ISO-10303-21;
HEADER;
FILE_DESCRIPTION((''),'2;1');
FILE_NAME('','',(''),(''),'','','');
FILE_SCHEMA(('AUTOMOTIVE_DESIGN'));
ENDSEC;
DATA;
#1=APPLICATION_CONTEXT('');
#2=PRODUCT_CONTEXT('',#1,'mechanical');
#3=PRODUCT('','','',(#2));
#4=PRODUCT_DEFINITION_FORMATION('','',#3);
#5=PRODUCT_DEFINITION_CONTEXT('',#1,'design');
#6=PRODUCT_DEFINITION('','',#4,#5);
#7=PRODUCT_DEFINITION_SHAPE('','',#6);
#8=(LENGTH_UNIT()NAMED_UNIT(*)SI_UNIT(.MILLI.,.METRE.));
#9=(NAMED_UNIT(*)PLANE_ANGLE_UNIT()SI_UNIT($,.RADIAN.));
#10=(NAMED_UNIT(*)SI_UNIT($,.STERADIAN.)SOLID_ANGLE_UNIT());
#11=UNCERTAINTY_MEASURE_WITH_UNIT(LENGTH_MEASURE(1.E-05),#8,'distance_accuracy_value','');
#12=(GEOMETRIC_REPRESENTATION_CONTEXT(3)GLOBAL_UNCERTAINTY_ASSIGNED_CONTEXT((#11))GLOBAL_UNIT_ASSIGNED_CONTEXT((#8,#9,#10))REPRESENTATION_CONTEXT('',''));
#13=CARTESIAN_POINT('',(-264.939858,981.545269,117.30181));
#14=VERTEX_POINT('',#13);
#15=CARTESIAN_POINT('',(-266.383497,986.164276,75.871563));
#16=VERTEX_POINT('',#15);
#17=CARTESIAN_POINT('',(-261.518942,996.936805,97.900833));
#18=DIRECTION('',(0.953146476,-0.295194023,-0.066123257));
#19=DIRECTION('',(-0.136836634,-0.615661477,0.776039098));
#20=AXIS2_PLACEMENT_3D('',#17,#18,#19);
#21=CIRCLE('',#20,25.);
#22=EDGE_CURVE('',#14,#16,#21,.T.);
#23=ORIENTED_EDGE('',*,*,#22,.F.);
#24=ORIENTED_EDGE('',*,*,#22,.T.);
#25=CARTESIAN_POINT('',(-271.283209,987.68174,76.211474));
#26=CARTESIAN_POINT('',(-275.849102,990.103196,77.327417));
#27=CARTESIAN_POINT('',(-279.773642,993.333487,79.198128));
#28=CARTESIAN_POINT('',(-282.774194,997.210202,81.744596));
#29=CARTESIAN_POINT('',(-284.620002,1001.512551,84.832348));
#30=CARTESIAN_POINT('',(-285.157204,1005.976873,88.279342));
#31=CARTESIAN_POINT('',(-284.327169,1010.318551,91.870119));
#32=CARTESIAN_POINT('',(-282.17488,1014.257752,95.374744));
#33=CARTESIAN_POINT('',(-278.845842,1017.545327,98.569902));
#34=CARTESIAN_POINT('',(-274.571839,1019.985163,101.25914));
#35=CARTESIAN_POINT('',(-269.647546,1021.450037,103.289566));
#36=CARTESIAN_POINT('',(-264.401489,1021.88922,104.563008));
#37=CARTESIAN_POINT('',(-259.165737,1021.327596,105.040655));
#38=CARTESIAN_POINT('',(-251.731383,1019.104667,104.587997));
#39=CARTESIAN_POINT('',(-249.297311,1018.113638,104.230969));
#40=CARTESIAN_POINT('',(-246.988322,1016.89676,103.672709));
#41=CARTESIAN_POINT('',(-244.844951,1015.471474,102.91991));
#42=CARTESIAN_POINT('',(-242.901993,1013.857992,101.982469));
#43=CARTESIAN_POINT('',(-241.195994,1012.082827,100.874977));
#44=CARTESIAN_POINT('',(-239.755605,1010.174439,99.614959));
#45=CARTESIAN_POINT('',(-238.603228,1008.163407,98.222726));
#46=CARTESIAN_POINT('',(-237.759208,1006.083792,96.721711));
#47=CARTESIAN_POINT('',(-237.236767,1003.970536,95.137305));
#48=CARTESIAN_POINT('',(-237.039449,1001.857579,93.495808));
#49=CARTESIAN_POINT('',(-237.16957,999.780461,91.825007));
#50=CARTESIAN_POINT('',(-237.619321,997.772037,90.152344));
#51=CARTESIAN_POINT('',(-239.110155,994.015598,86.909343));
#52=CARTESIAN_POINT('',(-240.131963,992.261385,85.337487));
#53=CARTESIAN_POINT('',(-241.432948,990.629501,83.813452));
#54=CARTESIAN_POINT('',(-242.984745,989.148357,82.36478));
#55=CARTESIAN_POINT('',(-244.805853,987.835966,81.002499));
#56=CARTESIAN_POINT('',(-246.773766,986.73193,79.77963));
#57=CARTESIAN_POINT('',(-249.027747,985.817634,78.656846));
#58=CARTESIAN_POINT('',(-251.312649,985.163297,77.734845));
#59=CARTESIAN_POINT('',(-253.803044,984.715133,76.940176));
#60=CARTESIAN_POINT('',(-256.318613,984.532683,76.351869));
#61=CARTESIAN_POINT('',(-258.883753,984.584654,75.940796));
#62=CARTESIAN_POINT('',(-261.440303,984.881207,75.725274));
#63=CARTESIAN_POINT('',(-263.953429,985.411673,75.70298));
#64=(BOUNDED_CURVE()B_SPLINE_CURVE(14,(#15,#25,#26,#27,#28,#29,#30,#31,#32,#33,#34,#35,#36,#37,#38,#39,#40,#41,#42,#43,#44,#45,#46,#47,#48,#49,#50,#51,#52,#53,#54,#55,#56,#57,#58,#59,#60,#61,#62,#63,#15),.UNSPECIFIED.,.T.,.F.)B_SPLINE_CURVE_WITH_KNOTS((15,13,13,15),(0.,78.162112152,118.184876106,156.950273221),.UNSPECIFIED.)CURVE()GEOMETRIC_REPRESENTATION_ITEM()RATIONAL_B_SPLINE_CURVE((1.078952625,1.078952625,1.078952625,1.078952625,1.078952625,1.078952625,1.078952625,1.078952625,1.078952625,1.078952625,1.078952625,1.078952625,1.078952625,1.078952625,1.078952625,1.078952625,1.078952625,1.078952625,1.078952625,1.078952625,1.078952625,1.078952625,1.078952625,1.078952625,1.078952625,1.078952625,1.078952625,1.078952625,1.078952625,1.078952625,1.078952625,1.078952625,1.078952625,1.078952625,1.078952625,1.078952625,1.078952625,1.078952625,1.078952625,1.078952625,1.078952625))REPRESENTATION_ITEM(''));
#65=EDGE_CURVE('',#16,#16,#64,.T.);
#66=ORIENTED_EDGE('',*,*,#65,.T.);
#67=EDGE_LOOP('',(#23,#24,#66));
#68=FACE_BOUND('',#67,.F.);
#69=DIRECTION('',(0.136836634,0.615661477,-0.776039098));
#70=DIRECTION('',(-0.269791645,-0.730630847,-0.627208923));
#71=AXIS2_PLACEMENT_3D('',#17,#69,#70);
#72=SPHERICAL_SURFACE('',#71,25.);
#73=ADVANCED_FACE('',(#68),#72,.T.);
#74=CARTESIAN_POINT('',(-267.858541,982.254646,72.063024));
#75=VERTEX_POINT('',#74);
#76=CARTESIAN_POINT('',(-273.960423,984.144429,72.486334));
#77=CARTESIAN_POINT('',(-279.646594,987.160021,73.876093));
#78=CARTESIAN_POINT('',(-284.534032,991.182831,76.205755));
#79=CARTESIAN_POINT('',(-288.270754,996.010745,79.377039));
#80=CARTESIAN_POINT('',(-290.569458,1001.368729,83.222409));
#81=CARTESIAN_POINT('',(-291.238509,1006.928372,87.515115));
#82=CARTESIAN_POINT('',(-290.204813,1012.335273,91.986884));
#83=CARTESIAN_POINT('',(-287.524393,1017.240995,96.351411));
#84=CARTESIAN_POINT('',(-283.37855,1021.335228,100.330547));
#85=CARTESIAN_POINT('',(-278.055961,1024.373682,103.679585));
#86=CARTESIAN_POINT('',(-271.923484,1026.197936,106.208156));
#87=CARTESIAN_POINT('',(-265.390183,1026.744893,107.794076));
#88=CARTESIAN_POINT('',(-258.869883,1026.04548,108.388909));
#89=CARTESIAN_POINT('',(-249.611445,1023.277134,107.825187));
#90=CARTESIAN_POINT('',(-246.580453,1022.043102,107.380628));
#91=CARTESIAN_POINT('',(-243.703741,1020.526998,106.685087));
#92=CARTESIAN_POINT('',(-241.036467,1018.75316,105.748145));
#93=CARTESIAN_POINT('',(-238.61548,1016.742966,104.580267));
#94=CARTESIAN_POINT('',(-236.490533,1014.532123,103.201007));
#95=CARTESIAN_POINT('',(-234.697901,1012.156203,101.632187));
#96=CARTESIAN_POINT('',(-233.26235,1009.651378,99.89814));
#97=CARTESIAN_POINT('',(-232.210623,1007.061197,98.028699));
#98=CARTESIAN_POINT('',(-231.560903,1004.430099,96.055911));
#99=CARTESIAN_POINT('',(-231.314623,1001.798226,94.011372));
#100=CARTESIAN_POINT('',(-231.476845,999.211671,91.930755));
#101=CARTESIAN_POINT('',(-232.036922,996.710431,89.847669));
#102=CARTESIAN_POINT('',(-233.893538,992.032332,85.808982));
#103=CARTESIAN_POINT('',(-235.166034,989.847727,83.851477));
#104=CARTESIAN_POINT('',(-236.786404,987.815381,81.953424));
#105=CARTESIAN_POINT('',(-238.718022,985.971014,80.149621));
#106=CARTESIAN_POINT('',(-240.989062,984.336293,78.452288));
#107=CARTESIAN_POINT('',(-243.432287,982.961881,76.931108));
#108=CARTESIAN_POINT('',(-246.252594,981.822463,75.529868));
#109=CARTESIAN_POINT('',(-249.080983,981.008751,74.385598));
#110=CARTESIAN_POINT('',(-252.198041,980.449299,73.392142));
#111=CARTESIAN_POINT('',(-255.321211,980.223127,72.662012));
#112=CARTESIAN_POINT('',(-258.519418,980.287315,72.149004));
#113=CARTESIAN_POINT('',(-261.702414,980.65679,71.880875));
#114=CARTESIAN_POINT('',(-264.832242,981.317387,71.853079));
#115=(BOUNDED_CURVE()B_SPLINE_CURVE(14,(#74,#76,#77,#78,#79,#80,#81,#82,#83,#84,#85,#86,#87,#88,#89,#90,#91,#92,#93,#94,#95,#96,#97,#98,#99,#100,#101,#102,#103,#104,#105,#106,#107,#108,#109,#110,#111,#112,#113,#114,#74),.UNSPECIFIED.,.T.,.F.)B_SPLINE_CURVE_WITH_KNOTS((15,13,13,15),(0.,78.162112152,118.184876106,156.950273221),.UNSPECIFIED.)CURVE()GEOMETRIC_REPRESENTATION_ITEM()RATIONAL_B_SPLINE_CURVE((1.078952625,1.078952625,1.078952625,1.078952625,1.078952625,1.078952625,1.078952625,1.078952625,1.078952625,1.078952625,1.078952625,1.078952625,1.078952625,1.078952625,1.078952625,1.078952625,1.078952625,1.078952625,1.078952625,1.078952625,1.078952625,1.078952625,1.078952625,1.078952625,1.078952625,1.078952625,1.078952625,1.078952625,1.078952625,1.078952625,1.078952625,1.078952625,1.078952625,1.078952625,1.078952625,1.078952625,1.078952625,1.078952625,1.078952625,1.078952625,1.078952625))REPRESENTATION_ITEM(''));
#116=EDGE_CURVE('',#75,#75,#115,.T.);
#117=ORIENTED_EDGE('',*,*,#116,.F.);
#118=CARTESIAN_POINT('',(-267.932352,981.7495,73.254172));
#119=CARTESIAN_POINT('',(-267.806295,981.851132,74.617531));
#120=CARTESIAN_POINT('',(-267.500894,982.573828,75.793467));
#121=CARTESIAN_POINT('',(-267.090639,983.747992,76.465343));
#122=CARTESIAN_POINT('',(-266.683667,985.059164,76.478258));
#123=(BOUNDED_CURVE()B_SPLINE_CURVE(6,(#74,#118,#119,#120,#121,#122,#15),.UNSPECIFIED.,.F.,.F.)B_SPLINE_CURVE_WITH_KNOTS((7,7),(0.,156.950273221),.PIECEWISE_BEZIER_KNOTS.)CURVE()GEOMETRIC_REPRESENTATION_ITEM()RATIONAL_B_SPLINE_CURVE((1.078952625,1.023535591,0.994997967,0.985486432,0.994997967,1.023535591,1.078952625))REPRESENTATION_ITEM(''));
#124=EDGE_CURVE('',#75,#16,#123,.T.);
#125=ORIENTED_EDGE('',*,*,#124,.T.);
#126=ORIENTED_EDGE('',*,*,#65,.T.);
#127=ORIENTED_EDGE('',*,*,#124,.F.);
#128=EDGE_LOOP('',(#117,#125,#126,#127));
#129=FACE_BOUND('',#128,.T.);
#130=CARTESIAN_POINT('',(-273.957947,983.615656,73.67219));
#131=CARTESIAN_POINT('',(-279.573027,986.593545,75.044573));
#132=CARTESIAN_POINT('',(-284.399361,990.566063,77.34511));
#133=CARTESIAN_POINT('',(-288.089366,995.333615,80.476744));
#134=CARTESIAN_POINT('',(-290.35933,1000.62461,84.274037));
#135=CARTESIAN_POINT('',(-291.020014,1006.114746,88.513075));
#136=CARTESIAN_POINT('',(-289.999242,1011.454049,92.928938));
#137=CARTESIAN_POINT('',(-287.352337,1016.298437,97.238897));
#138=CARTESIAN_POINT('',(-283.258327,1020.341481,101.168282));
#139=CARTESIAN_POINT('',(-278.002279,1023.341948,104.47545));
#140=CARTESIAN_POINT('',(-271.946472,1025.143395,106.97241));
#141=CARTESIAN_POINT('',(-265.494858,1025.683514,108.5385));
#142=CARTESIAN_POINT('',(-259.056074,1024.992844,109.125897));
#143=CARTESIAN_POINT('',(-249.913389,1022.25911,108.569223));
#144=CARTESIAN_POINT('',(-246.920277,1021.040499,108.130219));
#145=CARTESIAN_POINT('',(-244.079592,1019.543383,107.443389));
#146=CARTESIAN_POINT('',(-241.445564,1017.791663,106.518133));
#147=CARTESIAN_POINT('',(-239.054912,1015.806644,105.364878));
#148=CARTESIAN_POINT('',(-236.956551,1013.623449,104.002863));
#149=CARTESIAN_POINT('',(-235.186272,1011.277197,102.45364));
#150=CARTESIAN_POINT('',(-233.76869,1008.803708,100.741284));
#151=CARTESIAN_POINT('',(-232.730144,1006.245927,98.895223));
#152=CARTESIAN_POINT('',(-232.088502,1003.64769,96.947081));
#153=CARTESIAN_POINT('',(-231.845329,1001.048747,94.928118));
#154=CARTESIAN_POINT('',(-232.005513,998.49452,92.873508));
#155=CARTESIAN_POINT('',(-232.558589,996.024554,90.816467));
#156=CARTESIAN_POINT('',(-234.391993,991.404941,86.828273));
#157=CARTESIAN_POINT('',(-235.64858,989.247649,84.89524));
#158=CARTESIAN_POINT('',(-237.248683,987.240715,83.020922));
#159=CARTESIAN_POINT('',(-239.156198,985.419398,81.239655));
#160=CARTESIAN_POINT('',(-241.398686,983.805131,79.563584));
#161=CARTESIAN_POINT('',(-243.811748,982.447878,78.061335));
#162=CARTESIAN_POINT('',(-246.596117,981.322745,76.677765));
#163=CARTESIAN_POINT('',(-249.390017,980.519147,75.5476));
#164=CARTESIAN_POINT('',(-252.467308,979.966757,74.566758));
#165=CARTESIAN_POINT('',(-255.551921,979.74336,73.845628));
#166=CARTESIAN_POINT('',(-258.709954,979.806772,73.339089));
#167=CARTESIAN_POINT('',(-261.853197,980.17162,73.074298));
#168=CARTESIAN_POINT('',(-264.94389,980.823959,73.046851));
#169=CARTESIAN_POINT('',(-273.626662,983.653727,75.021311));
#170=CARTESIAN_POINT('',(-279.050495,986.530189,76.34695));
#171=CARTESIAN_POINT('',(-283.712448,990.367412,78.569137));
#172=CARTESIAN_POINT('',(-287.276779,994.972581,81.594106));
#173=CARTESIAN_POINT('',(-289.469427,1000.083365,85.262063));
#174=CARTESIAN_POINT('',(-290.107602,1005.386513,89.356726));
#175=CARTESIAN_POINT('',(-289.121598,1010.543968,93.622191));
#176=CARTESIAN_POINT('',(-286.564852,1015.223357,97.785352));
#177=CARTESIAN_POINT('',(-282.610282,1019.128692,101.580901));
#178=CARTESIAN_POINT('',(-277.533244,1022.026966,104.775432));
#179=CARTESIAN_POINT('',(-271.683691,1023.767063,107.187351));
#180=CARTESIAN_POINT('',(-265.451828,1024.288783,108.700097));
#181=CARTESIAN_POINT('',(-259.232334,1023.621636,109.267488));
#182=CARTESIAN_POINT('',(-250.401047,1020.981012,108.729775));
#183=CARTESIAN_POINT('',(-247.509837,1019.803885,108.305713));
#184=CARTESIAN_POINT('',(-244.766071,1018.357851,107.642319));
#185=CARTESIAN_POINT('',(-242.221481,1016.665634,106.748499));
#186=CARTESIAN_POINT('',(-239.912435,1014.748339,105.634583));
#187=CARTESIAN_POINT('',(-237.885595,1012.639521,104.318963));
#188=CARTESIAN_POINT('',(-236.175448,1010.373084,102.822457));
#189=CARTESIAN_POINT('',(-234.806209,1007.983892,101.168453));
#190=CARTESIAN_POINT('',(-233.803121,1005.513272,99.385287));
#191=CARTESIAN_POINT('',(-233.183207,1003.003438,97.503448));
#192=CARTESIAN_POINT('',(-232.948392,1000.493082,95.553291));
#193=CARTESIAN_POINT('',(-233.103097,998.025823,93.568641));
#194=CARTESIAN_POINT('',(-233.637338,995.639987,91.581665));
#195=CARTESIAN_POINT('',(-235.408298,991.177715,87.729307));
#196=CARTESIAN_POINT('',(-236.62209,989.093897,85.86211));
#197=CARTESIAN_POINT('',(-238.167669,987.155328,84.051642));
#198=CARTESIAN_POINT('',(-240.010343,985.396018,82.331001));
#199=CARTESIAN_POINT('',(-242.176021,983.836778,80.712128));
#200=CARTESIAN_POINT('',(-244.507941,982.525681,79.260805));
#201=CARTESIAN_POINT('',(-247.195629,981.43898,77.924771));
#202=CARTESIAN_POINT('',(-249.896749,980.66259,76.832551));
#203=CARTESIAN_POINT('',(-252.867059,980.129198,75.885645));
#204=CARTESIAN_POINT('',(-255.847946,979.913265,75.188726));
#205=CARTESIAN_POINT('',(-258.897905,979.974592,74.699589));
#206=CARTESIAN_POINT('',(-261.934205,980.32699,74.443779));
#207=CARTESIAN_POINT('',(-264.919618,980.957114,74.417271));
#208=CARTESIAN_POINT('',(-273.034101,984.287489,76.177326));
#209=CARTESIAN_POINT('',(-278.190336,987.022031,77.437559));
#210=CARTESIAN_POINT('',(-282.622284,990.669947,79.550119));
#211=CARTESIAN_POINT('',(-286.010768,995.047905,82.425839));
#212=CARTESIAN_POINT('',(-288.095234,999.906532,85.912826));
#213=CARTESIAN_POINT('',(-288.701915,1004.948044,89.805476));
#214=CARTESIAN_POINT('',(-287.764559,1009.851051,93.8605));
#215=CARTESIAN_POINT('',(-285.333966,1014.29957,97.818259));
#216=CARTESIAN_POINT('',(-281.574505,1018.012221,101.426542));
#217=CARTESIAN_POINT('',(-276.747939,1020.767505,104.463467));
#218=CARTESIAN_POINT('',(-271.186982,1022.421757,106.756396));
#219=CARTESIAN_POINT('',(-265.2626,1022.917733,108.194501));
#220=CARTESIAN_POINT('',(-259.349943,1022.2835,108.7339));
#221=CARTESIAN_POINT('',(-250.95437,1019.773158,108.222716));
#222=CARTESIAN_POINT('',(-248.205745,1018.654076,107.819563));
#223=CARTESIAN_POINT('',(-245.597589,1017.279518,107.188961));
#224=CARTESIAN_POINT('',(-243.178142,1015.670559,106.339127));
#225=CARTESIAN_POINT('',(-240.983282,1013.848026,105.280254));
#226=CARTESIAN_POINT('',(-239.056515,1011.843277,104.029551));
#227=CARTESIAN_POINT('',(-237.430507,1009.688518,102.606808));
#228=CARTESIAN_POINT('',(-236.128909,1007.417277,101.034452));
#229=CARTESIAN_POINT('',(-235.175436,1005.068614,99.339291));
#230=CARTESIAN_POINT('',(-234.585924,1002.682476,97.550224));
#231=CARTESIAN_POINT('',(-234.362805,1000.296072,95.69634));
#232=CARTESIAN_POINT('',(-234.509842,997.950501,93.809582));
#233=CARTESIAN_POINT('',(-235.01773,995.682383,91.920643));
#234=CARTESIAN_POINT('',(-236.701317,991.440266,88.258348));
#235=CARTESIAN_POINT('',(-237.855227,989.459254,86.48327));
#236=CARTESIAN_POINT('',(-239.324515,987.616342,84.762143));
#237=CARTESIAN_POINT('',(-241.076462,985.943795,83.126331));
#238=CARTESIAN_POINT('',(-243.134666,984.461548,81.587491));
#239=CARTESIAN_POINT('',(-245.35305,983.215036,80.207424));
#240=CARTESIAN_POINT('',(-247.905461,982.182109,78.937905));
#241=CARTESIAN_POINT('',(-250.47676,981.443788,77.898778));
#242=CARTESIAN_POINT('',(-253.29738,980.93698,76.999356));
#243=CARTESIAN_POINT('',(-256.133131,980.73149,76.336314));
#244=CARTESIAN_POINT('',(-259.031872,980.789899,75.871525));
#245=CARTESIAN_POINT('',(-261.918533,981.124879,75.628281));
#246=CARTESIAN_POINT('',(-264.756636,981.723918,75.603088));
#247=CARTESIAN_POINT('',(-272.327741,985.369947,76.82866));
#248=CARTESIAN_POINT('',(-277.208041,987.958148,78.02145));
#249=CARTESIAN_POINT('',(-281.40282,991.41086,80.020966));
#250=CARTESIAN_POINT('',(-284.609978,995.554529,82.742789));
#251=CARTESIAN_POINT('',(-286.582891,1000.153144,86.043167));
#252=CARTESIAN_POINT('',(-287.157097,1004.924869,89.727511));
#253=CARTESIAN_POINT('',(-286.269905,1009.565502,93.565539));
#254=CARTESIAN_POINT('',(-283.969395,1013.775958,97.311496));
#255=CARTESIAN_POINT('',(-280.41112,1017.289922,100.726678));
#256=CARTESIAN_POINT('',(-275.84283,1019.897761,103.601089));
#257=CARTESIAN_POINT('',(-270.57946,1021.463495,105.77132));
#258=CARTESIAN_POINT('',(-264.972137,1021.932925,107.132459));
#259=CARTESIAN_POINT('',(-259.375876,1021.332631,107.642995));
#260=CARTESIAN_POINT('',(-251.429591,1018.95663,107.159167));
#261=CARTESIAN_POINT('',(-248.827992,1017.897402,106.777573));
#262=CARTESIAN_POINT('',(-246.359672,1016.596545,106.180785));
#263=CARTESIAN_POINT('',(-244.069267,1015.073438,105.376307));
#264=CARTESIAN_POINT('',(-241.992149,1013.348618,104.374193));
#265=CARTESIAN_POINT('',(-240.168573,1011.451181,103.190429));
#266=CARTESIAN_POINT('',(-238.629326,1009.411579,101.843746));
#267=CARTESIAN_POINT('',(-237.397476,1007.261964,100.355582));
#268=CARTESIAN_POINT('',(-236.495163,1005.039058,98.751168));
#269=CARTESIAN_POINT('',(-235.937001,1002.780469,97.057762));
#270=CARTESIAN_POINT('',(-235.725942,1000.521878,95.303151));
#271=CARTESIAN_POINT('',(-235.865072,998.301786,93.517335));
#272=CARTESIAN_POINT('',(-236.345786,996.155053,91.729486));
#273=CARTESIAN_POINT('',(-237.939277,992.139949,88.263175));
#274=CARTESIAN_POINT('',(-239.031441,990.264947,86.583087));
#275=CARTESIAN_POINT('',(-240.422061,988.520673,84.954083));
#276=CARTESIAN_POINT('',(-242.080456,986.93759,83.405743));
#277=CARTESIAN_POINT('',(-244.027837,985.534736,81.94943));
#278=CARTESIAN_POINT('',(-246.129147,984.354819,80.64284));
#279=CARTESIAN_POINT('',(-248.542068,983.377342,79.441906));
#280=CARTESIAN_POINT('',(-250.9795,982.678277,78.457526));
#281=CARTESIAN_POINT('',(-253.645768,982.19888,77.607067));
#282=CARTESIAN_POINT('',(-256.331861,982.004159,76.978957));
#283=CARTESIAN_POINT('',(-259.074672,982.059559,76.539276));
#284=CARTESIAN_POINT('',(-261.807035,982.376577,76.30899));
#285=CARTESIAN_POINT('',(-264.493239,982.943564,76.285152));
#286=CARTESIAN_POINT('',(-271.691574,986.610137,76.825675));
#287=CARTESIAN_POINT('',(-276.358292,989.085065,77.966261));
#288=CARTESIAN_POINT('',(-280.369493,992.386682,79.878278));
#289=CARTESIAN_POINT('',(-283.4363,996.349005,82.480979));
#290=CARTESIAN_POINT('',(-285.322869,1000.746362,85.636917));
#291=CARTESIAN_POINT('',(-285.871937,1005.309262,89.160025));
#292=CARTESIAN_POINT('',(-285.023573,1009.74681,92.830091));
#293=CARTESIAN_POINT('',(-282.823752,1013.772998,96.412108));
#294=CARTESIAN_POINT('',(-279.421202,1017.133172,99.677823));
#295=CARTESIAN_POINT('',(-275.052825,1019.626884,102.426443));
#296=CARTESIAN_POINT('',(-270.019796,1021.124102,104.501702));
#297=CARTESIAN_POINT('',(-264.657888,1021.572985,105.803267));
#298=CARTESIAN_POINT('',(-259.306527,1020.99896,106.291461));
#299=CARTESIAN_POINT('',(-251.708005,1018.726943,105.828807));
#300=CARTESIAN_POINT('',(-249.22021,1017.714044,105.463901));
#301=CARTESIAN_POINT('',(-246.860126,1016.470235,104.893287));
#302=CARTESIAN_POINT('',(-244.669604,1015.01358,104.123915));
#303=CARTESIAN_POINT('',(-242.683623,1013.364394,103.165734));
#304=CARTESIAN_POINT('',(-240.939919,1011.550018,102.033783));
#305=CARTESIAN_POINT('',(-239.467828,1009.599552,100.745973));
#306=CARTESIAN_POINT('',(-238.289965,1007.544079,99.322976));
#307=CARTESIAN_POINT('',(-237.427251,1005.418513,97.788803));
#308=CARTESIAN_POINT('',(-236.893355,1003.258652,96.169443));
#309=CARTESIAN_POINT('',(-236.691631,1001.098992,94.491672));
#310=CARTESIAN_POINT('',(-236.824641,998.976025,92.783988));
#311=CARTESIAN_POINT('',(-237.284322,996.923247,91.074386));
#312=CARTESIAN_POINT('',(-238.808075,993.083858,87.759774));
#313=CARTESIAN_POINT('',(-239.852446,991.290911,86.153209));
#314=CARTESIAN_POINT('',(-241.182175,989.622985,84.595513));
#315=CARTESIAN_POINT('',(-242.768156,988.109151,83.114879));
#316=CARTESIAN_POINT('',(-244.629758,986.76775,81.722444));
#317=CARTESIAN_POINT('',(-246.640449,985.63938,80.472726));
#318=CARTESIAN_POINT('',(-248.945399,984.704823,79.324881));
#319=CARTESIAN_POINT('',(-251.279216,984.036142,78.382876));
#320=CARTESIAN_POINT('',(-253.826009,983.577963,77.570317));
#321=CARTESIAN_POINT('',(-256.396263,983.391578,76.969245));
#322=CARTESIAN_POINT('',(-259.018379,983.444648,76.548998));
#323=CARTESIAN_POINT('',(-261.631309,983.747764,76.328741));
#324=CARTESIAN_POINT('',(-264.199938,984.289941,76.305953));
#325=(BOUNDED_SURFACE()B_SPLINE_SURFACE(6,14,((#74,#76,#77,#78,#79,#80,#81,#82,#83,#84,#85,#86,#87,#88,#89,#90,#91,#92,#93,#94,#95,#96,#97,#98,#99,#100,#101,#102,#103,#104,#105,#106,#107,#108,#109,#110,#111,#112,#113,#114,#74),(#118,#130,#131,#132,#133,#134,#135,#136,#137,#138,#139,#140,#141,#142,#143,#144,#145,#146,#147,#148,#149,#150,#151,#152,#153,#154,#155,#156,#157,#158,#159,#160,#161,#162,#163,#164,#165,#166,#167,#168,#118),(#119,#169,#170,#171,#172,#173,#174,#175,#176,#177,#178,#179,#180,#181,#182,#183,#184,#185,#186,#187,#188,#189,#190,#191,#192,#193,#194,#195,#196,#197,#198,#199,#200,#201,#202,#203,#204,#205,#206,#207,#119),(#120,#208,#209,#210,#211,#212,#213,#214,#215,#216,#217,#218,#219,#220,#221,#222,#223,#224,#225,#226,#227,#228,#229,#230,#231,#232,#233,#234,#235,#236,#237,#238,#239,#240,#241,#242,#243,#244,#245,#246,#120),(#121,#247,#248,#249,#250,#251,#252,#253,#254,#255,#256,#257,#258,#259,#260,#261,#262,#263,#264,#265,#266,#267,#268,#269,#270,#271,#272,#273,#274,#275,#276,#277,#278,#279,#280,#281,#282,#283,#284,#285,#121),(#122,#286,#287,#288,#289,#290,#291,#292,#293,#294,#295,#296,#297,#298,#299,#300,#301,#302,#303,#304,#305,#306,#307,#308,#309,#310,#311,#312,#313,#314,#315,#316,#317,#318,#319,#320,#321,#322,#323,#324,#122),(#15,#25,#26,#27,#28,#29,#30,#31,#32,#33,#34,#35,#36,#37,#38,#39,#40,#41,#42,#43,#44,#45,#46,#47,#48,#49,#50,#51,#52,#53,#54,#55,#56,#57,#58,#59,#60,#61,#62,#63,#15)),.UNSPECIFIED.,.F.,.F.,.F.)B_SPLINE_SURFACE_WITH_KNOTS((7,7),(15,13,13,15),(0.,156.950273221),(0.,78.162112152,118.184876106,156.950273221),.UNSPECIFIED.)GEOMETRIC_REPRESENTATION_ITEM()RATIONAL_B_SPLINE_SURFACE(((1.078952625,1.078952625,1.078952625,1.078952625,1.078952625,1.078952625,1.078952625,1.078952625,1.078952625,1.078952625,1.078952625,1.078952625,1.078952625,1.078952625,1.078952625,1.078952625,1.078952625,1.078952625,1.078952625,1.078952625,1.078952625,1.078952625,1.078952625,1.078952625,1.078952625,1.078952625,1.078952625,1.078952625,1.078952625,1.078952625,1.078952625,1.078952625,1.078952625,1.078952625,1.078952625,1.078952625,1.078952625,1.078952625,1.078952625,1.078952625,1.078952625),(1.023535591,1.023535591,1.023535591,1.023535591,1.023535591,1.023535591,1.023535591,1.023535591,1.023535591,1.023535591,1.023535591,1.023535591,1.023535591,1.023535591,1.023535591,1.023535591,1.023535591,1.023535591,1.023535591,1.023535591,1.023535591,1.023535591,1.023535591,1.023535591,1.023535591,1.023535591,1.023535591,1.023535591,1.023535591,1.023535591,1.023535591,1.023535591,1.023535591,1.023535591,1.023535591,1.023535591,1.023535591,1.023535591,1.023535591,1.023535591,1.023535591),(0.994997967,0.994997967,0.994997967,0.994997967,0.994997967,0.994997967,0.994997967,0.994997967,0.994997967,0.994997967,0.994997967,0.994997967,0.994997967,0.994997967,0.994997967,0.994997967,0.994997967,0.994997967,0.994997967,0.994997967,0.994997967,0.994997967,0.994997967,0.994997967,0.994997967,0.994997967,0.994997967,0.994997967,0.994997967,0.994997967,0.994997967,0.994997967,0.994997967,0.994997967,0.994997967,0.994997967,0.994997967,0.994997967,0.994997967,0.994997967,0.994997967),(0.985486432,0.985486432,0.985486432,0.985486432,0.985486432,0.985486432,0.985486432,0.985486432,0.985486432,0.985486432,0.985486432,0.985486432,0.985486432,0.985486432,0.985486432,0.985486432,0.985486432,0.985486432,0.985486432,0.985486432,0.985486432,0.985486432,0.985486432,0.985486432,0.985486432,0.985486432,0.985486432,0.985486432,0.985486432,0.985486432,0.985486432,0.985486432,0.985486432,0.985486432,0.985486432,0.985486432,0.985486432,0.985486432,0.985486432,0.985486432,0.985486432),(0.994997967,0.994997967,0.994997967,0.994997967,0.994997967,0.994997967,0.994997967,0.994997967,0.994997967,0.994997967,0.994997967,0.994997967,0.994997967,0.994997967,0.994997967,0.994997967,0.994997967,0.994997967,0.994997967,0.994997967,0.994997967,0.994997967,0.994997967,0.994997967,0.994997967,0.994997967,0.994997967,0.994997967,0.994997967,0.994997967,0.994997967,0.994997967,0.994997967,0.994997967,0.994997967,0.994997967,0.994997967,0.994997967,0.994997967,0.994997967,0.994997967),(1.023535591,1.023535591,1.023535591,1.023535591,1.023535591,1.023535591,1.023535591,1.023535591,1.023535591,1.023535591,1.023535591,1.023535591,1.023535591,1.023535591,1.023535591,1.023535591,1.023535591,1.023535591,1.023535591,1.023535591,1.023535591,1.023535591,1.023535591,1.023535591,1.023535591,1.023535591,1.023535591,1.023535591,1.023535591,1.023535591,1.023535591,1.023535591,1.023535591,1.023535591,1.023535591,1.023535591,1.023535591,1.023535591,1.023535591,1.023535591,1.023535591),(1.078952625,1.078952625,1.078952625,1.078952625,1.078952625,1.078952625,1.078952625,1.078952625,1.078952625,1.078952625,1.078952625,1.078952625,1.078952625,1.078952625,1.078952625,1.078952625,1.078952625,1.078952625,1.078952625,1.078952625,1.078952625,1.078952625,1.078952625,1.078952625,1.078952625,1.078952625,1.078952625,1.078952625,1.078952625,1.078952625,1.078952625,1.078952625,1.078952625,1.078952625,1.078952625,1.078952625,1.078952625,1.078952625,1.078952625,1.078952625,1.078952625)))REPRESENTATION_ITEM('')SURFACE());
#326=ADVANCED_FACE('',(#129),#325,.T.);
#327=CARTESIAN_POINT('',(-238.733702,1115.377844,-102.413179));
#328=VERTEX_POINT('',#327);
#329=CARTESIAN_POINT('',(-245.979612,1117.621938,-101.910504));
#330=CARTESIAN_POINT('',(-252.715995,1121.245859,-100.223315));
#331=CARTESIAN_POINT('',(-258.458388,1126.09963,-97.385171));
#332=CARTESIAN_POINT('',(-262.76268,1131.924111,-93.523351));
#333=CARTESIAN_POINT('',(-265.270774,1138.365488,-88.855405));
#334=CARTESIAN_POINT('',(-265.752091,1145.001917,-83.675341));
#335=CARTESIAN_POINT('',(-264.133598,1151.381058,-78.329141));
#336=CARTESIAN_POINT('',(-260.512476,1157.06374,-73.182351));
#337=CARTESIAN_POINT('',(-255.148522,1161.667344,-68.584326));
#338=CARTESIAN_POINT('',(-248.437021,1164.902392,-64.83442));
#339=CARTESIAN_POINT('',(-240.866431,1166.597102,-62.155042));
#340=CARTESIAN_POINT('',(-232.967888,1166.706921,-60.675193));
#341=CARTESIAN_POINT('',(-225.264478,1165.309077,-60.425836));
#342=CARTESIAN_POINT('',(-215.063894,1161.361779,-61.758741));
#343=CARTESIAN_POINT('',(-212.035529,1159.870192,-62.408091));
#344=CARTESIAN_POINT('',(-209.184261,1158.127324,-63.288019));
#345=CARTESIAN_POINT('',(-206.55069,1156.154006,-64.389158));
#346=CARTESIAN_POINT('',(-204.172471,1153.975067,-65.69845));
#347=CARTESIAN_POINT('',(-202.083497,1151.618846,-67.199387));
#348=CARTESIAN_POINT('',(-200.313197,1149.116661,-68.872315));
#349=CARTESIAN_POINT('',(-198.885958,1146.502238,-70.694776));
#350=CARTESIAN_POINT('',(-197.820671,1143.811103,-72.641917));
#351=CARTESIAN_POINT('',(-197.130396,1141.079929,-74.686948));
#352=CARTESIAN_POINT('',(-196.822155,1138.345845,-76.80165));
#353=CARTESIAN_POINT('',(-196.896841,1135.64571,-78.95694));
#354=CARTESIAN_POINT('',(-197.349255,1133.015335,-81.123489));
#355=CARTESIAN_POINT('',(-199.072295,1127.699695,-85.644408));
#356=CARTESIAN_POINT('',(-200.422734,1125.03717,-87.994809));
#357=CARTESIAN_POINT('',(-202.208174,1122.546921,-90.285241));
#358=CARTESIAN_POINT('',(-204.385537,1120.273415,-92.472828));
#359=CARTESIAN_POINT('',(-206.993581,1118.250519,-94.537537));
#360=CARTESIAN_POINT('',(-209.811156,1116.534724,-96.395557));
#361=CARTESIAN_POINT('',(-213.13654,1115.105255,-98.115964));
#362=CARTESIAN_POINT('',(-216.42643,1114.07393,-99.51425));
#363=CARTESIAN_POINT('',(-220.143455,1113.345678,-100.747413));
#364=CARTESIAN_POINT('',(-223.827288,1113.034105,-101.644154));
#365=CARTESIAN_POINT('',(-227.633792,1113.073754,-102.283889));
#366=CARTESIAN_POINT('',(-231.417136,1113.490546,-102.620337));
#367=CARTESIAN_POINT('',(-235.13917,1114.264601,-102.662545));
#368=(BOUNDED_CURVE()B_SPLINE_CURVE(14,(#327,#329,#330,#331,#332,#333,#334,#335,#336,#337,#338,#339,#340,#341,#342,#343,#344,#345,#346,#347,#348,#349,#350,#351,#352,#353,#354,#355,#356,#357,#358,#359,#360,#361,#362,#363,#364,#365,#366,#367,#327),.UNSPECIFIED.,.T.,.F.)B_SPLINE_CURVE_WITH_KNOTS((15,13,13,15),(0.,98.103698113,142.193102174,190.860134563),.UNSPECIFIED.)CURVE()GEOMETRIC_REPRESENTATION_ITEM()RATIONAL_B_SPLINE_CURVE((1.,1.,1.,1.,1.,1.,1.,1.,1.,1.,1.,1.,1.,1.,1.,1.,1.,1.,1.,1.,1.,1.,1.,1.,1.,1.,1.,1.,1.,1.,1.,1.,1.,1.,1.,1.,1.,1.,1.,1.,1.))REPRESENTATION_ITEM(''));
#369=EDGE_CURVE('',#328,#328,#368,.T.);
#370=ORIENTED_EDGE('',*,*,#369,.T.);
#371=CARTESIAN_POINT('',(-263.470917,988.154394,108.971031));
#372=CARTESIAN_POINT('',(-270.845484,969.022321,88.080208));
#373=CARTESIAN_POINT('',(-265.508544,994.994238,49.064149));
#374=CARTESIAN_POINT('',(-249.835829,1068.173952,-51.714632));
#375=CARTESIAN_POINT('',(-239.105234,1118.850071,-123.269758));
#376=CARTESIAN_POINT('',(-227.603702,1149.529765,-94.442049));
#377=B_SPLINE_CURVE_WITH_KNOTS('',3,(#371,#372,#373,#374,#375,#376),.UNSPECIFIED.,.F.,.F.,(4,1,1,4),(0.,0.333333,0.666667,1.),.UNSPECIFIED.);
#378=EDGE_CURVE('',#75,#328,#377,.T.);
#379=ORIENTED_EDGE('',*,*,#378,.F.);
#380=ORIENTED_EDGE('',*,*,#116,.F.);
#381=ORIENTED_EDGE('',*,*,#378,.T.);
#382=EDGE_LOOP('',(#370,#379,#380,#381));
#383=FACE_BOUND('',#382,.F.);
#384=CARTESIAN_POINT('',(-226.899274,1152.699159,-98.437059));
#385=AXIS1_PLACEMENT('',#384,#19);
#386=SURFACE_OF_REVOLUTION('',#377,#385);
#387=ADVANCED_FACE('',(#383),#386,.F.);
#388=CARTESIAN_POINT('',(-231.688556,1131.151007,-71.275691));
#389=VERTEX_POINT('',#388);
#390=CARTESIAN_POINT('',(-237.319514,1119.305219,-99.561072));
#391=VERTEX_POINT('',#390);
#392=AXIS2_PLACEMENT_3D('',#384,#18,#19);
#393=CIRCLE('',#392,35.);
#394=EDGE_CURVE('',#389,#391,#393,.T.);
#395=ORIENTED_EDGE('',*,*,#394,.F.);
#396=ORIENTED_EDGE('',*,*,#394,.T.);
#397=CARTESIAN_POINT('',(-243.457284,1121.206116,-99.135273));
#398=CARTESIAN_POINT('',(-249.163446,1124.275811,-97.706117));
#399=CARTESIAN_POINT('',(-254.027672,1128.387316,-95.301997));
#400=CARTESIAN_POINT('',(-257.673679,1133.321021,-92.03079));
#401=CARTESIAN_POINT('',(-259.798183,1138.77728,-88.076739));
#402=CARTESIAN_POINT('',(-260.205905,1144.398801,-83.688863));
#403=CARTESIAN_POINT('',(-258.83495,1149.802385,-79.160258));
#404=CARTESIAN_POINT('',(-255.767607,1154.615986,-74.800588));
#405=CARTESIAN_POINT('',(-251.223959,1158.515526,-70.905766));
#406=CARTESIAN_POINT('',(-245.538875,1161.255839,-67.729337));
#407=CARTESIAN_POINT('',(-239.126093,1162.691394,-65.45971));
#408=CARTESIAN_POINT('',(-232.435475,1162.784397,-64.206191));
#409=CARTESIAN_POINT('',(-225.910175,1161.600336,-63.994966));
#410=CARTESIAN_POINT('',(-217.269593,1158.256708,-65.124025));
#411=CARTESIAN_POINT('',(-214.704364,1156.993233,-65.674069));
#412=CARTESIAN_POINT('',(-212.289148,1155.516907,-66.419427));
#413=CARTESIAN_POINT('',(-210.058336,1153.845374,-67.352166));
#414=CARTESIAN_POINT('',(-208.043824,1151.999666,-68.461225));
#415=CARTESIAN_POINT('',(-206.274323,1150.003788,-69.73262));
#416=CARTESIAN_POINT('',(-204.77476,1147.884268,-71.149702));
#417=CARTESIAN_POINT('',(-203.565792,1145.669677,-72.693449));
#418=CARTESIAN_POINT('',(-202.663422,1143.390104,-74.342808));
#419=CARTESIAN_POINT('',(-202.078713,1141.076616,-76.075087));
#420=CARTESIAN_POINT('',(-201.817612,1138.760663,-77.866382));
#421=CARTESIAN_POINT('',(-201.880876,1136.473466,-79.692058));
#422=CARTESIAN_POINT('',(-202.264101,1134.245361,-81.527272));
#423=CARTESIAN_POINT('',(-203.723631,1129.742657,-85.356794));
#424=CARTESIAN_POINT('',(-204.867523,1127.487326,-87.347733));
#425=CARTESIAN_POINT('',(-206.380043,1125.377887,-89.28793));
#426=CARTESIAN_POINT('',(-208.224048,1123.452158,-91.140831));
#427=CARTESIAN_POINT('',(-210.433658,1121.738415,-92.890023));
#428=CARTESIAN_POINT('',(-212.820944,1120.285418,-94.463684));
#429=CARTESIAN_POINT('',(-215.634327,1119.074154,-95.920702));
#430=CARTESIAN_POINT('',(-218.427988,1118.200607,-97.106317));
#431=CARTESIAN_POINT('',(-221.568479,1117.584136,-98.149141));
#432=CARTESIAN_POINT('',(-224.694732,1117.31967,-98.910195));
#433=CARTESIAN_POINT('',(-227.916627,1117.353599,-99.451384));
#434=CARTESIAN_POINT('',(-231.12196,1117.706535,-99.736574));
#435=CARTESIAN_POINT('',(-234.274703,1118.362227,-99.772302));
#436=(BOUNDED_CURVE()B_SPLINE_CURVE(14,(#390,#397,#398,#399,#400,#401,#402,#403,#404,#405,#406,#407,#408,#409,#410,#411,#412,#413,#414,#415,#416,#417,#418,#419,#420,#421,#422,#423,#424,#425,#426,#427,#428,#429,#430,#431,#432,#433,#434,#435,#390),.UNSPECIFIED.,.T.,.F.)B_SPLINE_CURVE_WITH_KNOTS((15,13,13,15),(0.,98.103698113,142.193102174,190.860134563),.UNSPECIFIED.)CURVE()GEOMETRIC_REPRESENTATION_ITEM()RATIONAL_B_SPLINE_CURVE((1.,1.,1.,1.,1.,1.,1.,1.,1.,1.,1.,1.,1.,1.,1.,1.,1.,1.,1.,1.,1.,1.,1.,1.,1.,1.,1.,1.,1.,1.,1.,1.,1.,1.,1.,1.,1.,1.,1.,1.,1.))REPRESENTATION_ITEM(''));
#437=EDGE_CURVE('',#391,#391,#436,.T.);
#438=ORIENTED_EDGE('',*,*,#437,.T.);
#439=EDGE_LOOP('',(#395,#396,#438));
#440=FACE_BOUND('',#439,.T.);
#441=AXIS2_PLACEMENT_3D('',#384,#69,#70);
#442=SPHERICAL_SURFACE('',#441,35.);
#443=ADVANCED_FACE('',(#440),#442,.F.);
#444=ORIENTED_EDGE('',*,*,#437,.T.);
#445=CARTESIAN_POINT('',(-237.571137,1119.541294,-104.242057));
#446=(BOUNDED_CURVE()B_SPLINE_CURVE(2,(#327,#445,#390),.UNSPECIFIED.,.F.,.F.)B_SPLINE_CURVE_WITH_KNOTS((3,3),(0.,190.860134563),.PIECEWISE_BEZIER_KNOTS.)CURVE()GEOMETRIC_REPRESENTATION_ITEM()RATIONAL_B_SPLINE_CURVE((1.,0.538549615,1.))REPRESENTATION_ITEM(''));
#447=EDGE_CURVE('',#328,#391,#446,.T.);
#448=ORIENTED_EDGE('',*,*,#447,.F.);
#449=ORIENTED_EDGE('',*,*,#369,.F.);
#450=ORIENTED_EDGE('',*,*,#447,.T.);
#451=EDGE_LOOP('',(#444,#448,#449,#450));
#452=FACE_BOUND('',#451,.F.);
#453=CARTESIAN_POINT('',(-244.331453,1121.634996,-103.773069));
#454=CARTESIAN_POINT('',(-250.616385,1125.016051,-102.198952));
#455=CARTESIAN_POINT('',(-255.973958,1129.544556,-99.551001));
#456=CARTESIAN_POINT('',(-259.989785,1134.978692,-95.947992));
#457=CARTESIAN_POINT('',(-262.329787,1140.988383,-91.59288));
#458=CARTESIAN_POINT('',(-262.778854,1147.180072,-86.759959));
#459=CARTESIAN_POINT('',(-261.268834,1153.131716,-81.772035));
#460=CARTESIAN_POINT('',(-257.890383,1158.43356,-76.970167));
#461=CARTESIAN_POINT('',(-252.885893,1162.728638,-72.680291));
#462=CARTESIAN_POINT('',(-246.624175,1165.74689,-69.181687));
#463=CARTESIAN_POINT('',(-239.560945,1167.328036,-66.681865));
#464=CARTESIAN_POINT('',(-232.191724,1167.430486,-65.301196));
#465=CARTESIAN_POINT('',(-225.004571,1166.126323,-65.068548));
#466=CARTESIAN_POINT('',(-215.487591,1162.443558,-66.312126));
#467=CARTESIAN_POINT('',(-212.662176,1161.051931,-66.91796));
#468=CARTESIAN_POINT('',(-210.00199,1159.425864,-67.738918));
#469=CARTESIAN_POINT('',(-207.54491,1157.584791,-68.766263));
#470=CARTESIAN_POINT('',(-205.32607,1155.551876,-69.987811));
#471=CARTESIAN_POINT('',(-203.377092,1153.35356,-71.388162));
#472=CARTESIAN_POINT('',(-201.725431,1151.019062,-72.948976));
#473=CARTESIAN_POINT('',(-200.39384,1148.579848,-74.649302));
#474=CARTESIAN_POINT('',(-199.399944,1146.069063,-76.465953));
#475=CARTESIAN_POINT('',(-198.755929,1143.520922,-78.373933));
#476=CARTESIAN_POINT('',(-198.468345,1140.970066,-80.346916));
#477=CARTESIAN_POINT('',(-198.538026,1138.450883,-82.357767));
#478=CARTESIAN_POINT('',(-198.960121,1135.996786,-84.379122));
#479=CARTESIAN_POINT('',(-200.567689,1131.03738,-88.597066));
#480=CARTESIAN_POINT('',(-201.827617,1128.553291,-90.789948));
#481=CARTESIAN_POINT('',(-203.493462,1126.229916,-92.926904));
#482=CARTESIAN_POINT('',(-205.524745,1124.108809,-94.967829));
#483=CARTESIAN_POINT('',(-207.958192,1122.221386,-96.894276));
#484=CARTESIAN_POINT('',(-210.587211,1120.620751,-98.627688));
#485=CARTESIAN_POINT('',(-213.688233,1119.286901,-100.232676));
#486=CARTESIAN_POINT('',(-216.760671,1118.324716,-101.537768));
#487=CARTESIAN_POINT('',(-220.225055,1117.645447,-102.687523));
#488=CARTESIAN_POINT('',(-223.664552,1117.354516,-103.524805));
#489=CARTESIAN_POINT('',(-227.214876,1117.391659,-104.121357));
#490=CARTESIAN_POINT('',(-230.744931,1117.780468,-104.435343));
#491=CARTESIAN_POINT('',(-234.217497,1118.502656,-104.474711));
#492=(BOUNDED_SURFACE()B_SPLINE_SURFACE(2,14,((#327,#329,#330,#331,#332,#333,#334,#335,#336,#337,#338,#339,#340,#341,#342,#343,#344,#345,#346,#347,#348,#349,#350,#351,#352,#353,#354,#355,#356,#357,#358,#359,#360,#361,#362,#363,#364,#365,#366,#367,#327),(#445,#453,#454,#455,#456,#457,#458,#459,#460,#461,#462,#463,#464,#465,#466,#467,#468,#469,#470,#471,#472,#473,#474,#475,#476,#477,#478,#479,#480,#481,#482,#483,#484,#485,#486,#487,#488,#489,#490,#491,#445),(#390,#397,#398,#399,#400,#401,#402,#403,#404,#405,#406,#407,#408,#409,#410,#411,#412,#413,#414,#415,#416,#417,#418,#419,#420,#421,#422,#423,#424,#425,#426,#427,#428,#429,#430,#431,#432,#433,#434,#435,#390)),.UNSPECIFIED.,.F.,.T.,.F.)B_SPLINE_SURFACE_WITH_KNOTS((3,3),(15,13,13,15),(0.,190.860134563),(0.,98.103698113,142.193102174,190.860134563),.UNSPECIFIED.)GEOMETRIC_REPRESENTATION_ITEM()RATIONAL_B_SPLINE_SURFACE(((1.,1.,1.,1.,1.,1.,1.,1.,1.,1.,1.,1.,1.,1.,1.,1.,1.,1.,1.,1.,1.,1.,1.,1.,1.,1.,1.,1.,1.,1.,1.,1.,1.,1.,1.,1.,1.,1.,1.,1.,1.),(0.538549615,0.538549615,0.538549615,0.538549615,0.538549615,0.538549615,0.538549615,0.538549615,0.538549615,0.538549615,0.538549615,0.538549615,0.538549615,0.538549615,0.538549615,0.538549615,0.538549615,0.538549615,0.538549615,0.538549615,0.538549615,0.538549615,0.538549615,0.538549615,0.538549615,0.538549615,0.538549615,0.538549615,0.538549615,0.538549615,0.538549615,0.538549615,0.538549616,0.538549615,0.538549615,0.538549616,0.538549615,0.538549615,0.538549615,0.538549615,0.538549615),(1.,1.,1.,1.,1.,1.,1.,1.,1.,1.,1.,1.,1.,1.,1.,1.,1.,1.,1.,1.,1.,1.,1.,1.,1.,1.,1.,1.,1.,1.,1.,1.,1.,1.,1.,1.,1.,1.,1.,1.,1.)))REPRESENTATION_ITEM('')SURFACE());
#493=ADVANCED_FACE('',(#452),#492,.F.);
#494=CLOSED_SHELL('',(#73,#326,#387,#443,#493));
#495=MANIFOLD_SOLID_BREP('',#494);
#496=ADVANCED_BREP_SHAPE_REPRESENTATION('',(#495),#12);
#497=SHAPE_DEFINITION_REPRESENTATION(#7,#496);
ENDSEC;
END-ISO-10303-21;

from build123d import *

# Parameters (mm, degrees)
FILLET093_R             = 3
FILLET094_R             = 3
BODY056_ROLL_ANGLE      = -96.018155
BODY056_PITCH_ANGLE     = -50.899336
BODY056_PLACEMENT_ANGLE = -102.530845


with BuildPart() as part:
    # Sketch188 → Revolution097 (revolve)
    with BuildSketch(Plane.XY):
        with BuildLine():
            Line((5.147949, 0), (267.265, 0))
            add(Edge.make_bspline(
                [(267.265, 0), (263.840897, 29.07099), (216.842712, 33.126465), (91.435905, 38.640092), (3.238657, 43.599544), (5.147949, 0)],
                knots=[0, 0, 0, 0, 0.333333, 0.666667, 1, 1, 1, 1], degree=3))
        make_face()
    revolve(axis=Axis((0, 0, 0), (1, 0, 0)))

    # Sketch189 → Groove091 (revolve, cut)
    with BuildSketch(Plane.XY):
        with BuildLine():
            Line((-35, 0), (35, 0))
            ThreePointArc((35, 0), (0, 35), (-35, 0))
        make_face()
    revolve(axis=Axis((0, 0, 0), (1, 0, 0)), mode=Mode.SUBTRACT)

    # Fillet093
    fillet093_edges = [part.edges().sort_by_distance(p)[0] for p in [
        (17.386166, -30.376327, 0),
    ]]
    fillet(fillet093_edges, radius=FILLET093_R)

    # Sketch190 → Groove092 (revolve, cut)
    with BuildSketch(Plane.XY):
        with BuildLine():
            Line((228, 0), (278, 0))
            ThreePointArc((278, 0), (253, 25), (228, 0))
        make_face()
    revolve(axis=Axis((0, 0, 0), (1, 0, 0)), mode=Mode.SUBTRACT)

    # Fillet094
    fillet094_edges = [part.edges().sort_by_distance(p)[0] for p in [
        (251.985595, -24.979411, 0),
    ]]
    fillet(fillet094_edges, radius=FILLET094_R)

    # Sketch190 → Revolution098 (revolve)
    with BuildSketch(Plane.XY):
        with BuildLine():
            Line((228, 0), (278, 0))
            ThreePointArc((278, 0), (253, 25), (228, 0))
        make_face()
    revolve(axis=Axis((0, 0, 0), (1, 0, 0)))


with BuildPart() as part_1:
    # Body056 roll: moved
    add(part.part.rotate(Axis((0, 0, 0), (1, 0, 0)), BODY056_ROLL_ANGLE))


with BuildPart() as part_2:
    # Body056 pitch: moved
    add(part_1.part.rotate(Axis((0, 0, 0), (0, 1, 0)), BODY056_PITCH_ANGLE))


with BuildPart() as part_3:
    # Body056 placement: moved
    add(part_2.part.moved(Location((-226.899274, 1152.699159, -98.437059))).rotate(Axis((-226.899274, 1152.699159, -98.437059), (0, 0, 1)), BODY056_PLACEMENT_ANGLE))


solid = part_3.part
